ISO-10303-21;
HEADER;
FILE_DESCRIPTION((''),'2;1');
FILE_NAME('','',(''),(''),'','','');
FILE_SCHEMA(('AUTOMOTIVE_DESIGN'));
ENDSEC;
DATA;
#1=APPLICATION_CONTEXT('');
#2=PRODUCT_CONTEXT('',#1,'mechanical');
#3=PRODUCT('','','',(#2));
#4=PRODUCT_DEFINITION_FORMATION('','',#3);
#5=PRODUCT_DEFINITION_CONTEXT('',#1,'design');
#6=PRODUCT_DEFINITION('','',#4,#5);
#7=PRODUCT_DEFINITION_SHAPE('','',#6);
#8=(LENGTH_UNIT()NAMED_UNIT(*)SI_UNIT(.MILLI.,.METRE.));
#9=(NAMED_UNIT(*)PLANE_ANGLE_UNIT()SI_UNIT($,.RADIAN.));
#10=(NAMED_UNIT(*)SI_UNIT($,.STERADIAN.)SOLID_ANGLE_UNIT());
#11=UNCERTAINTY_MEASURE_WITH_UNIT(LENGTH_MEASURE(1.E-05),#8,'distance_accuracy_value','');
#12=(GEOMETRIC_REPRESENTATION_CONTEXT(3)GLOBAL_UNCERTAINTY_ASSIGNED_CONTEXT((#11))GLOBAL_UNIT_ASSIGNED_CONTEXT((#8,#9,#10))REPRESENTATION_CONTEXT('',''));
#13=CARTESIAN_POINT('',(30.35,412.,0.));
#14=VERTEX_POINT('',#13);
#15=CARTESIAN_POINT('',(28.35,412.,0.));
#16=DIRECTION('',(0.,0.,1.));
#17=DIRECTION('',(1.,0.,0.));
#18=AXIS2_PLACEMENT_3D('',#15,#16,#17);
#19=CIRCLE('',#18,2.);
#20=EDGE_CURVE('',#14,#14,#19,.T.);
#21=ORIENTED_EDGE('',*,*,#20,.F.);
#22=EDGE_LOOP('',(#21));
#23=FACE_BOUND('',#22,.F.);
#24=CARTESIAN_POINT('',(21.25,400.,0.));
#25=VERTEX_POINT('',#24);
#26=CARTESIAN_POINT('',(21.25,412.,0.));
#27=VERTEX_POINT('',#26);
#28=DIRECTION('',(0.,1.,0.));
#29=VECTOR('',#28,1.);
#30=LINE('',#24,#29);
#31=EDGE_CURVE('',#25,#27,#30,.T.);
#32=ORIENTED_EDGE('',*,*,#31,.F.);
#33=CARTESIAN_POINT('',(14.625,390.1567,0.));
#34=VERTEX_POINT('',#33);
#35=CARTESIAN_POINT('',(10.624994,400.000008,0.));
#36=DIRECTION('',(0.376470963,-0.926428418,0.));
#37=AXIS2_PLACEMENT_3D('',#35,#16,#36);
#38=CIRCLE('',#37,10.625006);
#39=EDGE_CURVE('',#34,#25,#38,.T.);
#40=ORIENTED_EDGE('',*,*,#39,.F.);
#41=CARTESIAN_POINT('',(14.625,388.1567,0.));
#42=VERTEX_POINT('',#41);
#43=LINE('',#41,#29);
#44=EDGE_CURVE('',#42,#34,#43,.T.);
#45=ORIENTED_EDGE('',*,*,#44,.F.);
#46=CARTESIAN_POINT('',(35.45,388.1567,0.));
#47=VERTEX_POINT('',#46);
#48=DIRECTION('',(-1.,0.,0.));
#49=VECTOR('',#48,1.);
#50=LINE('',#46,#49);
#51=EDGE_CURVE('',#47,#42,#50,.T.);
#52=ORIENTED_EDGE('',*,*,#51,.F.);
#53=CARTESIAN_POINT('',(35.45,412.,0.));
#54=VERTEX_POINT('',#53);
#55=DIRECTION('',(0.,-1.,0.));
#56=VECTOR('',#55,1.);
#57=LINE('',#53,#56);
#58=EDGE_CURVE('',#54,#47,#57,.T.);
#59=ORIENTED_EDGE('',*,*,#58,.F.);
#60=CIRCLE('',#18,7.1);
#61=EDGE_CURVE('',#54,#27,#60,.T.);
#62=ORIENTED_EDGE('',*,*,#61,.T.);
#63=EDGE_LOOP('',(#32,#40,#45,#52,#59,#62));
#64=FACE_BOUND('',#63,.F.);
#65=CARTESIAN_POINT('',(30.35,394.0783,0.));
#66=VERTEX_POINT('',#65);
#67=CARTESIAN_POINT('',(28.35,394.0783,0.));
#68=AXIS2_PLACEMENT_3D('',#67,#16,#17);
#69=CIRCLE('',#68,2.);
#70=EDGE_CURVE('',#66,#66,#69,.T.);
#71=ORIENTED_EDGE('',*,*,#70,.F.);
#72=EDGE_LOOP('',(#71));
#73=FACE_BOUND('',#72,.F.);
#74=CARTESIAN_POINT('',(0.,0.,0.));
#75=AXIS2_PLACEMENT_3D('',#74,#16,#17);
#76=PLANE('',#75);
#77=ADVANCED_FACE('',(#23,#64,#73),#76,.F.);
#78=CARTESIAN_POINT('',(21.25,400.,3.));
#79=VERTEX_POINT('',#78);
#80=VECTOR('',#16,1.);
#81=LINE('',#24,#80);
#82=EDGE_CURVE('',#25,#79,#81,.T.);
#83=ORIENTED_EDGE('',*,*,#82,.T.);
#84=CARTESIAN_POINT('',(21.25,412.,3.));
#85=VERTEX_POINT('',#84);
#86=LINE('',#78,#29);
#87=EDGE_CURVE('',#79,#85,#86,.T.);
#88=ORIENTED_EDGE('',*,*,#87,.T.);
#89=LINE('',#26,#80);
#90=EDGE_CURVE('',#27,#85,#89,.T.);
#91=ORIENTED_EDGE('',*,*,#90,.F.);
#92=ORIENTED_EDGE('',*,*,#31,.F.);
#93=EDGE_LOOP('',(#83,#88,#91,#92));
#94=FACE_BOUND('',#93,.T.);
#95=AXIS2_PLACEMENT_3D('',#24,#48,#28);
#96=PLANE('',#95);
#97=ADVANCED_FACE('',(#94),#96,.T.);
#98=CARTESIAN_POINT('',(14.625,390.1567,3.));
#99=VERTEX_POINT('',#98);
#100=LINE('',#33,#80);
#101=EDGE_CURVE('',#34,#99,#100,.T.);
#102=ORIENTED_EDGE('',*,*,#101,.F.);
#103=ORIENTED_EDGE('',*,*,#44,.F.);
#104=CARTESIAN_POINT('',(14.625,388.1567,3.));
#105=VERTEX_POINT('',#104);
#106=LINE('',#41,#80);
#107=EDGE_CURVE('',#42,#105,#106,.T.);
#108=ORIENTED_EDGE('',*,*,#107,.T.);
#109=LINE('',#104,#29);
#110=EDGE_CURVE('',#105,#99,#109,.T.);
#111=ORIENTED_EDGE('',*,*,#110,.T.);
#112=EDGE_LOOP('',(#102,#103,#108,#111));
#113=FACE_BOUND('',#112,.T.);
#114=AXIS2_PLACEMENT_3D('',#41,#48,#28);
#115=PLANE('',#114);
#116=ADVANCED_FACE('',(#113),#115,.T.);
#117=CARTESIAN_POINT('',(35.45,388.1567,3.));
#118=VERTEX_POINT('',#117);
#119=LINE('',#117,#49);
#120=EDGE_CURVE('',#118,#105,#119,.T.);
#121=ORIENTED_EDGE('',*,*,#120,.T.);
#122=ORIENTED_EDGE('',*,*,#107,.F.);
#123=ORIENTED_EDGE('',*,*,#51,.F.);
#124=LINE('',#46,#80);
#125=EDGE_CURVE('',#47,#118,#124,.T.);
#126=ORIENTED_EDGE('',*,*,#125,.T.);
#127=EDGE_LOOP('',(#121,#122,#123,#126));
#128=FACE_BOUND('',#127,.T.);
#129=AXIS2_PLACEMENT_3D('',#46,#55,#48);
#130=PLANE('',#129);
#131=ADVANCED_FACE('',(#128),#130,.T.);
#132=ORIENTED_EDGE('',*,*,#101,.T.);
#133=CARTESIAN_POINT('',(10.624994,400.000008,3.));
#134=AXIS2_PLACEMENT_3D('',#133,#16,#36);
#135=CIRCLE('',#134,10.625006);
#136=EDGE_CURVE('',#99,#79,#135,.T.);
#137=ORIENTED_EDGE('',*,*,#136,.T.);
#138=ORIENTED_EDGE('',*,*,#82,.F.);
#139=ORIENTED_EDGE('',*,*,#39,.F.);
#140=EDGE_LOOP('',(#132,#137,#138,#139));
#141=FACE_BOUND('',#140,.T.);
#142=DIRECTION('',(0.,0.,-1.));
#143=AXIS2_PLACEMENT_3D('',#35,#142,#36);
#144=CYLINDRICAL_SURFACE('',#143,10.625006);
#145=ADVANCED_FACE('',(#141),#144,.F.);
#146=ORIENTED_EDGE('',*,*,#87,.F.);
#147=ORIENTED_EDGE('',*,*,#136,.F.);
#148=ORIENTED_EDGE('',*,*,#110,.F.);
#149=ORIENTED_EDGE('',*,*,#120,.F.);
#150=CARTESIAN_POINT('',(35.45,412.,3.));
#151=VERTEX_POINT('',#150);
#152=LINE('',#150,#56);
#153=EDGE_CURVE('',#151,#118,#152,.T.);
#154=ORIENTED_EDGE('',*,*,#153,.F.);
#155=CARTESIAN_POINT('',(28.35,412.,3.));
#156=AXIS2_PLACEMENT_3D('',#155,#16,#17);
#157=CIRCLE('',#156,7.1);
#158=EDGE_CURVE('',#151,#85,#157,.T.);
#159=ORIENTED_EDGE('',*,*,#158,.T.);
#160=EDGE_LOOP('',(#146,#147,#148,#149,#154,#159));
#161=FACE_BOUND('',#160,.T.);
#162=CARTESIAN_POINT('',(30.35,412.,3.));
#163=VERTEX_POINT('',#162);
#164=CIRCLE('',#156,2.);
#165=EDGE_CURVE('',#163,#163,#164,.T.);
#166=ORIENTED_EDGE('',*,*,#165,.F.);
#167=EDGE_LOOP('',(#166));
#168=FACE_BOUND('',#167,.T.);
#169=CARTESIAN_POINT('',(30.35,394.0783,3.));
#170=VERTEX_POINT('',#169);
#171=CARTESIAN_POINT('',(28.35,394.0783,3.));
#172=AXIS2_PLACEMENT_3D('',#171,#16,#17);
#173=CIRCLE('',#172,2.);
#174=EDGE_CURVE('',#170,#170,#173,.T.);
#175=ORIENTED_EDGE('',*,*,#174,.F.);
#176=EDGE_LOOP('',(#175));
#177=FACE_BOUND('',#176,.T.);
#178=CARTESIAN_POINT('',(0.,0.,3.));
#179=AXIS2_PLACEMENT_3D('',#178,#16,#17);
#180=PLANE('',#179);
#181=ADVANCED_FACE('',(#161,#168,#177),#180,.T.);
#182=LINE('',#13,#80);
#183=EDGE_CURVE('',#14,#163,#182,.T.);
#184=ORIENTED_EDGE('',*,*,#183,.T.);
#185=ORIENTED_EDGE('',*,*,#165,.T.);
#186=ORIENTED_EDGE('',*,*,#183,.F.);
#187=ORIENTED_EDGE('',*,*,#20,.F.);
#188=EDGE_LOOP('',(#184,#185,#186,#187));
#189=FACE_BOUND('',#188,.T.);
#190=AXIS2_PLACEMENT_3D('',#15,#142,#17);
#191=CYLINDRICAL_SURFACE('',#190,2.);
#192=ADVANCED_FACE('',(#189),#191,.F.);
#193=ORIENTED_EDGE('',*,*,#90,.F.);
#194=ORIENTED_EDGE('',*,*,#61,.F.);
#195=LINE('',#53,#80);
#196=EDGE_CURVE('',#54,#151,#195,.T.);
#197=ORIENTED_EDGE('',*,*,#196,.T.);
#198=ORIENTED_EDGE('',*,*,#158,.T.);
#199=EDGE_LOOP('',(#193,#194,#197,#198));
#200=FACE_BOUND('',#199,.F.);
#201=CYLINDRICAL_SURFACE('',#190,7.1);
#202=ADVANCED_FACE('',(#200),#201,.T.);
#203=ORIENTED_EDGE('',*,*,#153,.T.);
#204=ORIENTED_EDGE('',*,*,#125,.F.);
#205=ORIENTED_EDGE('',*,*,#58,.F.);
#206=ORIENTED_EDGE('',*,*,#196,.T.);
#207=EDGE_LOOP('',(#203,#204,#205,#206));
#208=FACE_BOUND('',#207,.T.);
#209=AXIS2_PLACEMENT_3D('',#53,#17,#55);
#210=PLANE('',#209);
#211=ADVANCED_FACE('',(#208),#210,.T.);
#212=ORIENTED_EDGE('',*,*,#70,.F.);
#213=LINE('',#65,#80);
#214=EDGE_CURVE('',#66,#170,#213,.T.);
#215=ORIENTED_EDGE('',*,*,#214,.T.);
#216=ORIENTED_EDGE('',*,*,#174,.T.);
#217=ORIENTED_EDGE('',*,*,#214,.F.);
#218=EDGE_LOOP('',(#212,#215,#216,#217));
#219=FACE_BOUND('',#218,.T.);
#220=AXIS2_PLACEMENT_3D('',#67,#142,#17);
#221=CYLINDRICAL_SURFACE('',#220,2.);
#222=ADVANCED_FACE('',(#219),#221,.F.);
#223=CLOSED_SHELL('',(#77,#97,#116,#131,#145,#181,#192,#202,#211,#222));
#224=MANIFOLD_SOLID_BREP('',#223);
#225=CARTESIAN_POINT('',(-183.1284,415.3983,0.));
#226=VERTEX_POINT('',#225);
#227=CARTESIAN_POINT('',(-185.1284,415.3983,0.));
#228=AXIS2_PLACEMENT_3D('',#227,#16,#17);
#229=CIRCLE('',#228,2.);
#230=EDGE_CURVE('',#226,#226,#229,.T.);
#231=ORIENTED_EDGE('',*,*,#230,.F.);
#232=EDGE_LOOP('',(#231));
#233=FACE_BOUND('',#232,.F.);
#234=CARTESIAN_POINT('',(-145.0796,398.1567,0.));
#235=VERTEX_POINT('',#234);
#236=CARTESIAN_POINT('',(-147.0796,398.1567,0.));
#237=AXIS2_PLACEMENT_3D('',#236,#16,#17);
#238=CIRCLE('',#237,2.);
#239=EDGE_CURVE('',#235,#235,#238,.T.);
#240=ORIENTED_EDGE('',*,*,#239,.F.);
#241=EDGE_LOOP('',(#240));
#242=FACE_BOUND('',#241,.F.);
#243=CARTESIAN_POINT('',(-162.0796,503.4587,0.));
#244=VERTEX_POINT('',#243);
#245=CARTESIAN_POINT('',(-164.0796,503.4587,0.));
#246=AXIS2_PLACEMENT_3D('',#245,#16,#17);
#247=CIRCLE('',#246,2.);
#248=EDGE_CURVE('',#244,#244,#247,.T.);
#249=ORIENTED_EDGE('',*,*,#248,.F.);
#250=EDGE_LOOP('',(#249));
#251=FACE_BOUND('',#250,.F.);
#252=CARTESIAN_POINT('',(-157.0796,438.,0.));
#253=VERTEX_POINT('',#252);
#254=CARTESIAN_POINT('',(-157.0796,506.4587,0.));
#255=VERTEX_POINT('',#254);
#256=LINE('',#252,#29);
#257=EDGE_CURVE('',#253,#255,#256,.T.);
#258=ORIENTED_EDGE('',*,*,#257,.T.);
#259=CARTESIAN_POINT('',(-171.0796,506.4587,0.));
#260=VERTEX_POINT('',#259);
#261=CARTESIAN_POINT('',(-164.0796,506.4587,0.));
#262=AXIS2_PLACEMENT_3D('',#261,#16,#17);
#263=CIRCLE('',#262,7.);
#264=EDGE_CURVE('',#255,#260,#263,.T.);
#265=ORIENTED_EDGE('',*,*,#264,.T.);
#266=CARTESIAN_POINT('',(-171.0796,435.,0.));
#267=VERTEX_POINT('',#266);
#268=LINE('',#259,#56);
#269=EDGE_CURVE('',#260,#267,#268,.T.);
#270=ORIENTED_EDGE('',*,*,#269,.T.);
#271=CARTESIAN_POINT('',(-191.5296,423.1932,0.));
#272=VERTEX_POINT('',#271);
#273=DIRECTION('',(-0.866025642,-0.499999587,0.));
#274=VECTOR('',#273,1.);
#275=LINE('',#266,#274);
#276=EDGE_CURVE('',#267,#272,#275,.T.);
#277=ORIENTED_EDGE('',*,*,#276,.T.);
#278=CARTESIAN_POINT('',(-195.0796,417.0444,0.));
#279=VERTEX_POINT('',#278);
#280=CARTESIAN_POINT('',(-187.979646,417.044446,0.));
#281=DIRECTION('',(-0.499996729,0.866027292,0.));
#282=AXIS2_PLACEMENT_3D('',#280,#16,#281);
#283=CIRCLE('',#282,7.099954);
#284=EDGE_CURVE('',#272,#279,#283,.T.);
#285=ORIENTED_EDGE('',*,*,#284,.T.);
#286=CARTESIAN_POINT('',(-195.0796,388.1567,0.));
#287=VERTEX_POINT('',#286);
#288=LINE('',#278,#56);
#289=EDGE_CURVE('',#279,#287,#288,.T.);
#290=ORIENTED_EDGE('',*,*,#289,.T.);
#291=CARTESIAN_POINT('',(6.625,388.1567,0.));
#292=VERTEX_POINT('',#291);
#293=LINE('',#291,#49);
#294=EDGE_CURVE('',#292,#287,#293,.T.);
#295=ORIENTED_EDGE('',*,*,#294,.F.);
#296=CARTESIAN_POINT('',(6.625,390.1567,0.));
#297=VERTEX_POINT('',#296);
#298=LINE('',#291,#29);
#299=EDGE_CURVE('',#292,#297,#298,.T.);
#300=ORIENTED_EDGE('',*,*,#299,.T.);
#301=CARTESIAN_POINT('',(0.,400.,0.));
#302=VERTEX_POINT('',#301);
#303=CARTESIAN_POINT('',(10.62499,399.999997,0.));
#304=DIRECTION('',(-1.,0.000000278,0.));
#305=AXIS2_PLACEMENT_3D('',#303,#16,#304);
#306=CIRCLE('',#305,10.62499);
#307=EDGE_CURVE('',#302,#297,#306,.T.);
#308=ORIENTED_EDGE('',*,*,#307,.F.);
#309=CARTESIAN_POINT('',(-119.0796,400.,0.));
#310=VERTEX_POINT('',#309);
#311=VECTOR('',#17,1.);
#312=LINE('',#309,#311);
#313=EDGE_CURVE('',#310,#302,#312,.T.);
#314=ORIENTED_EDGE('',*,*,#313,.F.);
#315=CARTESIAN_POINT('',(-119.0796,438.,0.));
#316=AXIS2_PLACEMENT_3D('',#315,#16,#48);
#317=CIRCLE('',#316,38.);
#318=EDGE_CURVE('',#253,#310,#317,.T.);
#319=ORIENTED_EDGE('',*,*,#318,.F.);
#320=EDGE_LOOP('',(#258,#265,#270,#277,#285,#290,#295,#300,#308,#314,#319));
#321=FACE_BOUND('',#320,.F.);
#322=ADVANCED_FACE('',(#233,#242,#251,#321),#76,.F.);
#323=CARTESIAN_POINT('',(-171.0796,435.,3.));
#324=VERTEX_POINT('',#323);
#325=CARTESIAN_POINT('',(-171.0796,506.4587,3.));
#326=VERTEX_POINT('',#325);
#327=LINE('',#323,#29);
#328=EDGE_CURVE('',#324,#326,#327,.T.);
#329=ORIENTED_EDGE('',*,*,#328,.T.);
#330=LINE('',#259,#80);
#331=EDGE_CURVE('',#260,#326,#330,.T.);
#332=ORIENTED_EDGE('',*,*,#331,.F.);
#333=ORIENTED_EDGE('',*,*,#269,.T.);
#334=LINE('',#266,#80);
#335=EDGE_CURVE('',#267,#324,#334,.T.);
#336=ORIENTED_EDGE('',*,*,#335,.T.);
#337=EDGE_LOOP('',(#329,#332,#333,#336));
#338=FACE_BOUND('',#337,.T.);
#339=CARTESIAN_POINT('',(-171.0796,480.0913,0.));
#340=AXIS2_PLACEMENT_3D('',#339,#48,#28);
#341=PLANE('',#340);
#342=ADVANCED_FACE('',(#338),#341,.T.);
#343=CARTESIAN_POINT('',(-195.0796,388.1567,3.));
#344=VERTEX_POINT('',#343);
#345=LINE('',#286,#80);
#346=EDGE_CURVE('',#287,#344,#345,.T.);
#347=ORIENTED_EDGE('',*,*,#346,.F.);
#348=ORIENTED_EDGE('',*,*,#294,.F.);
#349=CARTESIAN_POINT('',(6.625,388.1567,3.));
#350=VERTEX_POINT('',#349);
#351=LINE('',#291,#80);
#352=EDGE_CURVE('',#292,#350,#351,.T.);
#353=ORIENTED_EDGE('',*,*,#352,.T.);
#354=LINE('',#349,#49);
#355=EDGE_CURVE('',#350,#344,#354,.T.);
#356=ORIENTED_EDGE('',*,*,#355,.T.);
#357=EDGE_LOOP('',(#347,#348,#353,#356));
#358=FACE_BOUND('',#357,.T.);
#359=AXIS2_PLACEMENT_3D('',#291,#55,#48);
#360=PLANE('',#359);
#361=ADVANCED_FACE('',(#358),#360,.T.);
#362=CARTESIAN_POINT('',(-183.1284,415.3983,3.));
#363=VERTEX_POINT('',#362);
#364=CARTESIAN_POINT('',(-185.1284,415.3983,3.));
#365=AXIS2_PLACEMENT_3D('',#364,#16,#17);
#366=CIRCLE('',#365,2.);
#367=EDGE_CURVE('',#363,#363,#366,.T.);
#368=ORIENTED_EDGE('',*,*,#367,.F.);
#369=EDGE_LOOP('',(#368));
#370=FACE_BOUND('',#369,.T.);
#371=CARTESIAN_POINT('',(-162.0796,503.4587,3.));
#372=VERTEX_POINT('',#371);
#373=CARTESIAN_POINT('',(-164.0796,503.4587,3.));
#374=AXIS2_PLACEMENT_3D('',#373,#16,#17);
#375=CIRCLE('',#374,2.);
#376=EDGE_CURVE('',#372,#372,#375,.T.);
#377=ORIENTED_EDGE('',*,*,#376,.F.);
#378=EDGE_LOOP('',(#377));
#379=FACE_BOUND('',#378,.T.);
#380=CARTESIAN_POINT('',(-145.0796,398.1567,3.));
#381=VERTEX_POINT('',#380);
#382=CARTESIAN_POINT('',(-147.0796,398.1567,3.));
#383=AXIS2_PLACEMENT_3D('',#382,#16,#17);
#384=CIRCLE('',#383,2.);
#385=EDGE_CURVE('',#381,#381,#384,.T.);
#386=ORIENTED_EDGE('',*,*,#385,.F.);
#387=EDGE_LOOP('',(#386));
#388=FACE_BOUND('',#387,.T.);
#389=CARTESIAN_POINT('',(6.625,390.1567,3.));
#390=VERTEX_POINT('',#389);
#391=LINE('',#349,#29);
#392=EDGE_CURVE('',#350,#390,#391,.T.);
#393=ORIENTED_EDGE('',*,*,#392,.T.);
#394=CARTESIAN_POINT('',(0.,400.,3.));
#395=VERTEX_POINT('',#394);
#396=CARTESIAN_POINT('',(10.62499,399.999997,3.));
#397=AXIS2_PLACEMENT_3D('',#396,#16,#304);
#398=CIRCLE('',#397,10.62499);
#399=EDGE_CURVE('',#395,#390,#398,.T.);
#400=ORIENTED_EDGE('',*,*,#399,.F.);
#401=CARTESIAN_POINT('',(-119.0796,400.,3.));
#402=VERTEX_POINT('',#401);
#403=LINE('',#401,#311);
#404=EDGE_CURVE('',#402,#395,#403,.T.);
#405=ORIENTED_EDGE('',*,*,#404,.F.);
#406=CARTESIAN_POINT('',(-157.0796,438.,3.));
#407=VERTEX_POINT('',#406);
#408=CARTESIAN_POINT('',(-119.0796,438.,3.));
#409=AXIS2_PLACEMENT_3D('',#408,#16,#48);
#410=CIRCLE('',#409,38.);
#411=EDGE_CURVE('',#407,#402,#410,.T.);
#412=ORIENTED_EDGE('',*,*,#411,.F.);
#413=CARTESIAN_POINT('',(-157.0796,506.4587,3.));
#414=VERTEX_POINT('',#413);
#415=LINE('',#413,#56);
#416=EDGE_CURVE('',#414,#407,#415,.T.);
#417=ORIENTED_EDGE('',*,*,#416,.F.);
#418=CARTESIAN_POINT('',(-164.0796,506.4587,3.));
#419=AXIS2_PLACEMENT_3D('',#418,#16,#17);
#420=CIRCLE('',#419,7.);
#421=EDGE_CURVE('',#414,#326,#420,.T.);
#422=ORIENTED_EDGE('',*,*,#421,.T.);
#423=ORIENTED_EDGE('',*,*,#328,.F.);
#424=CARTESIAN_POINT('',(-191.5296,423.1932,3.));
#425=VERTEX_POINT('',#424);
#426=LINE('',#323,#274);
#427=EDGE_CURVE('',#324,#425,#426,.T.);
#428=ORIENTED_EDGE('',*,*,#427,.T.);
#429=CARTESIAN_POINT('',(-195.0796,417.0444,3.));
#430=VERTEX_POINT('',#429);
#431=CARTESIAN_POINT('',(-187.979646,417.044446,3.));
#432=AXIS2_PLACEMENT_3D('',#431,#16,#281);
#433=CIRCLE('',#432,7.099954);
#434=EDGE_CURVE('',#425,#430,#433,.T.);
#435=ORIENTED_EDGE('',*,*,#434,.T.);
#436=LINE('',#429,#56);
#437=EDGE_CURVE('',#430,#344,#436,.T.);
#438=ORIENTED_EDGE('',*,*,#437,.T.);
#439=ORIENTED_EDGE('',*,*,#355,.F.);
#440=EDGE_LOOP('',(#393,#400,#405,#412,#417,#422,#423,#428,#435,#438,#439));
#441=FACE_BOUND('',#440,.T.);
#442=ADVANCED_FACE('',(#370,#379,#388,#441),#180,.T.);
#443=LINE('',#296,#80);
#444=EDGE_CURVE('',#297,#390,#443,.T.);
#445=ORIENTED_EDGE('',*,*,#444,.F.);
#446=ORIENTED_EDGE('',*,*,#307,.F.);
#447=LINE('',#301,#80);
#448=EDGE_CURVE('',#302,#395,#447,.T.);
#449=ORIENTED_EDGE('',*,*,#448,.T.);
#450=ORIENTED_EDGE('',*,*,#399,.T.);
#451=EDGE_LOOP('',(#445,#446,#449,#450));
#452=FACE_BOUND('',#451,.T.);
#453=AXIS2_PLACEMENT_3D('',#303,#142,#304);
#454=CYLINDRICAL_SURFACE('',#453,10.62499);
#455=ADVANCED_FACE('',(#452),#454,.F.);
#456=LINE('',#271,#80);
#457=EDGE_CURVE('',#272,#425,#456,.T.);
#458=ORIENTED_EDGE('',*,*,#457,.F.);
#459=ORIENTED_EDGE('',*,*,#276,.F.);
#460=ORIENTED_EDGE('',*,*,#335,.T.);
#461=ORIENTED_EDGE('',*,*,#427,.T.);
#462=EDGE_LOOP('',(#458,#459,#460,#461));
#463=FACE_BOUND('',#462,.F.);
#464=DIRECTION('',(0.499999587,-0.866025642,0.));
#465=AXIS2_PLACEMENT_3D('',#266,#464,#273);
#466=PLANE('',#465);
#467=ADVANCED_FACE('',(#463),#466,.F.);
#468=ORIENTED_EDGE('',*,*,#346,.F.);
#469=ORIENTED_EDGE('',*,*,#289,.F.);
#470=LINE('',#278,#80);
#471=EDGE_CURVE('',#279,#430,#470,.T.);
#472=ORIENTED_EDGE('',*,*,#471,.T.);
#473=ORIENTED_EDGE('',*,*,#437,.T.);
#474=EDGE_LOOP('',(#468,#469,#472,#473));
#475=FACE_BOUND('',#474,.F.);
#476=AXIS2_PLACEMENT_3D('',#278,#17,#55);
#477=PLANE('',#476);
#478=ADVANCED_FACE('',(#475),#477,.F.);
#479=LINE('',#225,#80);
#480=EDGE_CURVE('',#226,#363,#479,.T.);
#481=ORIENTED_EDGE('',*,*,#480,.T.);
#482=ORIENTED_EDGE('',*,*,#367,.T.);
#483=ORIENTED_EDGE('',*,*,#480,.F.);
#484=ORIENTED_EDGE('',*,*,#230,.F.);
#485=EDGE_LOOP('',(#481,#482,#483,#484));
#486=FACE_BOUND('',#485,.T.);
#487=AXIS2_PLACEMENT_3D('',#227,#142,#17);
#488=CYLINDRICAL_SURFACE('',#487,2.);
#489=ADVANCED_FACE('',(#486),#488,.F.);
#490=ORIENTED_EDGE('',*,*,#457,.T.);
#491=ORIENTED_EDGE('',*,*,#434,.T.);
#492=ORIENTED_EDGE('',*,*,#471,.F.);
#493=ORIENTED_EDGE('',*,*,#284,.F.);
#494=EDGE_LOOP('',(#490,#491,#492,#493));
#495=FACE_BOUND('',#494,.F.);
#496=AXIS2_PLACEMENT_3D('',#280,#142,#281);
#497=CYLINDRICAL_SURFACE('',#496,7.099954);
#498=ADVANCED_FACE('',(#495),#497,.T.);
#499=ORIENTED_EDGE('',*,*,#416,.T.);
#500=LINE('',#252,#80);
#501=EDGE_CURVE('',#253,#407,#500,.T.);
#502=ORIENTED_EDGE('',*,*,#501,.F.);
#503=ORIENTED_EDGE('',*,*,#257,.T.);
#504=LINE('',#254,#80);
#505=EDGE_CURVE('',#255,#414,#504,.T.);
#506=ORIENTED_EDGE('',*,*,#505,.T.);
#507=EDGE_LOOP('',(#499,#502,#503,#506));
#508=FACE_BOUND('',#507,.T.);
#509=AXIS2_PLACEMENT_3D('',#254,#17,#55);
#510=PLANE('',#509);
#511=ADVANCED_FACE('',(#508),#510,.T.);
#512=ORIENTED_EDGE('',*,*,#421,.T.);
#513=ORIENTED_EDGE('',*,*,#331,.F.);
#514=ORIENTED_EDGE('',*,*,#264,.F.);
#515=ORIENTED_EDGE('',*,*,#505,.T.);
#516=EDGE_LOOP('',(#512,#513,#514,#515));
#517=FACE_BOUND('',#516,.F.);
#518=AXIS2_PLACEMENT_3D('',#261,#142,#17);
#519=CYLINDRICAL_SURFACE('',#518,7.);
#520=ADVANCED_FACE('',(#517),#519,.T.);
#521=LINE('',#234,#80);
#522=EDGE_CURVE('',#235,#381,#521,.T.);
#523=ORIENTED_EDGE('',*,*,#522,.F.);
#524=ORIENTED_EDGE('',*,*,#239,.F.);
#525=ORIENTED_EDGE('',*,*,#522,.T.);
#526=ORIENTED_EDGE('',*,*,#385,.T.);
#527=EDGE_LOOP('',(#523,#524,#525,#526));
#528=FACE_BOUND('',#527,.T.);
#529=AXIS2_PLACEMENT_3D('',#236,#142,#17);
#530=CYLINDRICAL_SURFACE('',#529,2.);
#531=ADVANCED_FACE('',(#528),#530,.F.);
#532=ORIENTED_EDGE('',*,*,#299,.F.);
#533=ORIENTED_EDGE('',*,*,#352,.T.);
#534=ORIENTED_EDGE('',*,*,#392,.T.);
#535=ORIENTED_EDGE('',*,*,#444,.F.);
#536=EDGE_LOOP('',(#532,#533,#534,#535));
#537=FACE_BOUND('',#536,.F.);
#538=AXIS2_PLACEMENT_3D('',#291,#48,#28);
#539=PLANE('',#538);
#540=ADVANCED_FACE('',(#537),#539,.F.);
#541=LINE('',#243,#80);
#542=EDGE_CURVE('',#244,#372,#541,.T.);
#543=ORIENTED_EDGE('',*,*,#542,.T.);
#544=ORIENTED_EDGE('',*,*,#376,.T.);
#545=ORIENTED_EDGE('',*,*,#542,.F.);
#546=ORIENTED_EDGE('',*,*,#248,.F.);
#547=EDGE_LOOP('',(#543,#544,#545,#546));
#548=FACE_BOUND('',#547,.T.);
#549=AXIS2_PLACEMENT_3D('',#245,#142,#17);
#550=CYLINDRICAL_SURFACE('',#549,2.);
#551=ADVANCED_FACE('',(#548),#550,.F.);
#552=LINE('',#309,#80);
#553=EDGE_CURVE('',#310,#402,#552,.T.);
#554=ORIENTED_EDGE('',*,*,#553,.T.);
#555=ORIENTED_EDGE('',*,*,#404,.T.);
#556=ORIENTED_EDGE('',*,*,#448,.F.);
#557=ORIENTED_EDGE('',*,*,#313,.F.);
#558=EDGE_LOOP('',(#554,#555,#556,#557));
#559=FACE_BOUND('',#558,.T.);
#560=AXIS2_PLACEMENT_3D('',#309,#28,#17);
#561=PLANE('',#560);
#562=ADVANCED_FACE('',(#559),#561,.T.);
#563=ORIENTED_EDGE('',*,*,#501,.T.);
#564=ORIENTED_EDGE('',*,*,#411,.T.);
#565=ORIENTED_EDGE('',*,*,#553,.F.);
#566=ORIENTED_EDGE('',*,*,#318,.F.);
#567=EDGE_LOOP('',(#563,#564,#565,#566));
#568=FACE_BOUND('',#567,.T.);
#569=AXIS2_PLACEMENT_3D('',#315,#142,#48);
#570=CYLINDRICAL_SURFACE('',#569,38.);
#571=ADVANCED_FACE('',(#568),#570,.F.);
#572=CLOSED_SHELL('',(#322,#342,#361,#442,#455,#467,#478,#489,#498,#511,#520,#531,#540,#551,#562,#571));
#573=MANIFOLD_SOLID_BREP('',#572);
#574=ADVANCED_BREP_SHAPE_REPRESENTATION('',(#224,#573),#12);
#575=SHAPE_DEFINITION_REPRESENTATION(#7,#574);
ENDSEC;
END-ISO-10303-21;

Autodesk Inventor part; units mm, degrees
ref_plane "YZ Plane" through (0, 0, 0) normal (1, 0, 0) x (0, 1, 0)
ref_plane "XZ Plane" through (0, 0, 0) normal (0, 1, 0) x (-1, 0, 0)
ref_plane "XY Plane" through (0, 0, 0) normal (0, 0, 1) x (1, 0, 0)
sketch "Sketch3" plane through (0, 0, 0) normal (0, 0, 1) x (1, 0, 0)
  circle A0 centre (367.816, 50) radius 50 construction
  line L0 (367.816, 0) -> (512.7041, 0) construction
  line L1 (367.816, 50) -> (512.7041, 50) construction
  line L2 (367.816, 100) -> (512.7041, 100) construction
  line L3 (367.816, 50) -> (342.816, 6.6987) construction
  line L4 (367.816, 50) -> (324.5147, 25) construction
  line L5 (367.816, 50) -> (324.5147, 75) construction
  line L6 (342.816, 93.3013) -> (367.816, 50) construction
  line L7 (392.816, 93.3013) -> (367.816, 50) construction
  line L8 (411.1173, 75) -> (367.816, 50) construction
  line L9 (411.1173, 25) -> (367.816, 50) construction
  line L10 (392.816, 6.6987) -> (367.816, 50) construction
  line L11 (367.816, 0) -> (367.816, 100) construction
  line L12 (417.816, 50) -> (367.816, 50) construction
  line L13 (341.6361, 0) -> (341.6361, 100) construction
  line L14 (315.4561, 0) -> (315.4561, 100) construction
  line L15 (289.2762, 0) -> (289.2762, 100) construction
  line L16 (263.0963, 0) -> (263.0963, 100) construction
  line L17 (236.9163, 0) -> (236.9163, 100) construction
  line L18 (210.7364, 0) -> (210.7364, 100) construction
  line L19 (184.5564, 0) -> (184.5564, 100) construction
  line L20 (158.3765, 0) -> (158.3765, 100) construction
  circle A1 centre (315.4561, 50) radius 50 construction
  circle A2 centre (341.6361, 50) radius 50 construction
  circle A3 centre (289.2762, 50) radius 50 construction
  circle A4 centre (263.0963, 50) radius 50 construction
  circle A5 centre (236.9163, 50) radius 50 construction
  circle A6 centre (210.7364, 50) radius 50 construction
  line L21 (392.816, 6.6987) -> (512.7041, 6.6987) construction
  line L22 (411.1173, 25) -> (512.7041, 25) construction
  line L23 (411.1173, 75) -> (512.7041, 75) construction
  line L24 (411.1173, 75) -> (512.7041, 75) construction
  line L25 (392.816, 93.3013) -> (512.7041, 93.3013) construction
  line L26 (358.7574, 75) -> (339.2762, 50) construction
  line L27 (339.2762, 50) -> (306.3975, 25) construction
  line L28 (306.3975, 25) -> (261.9163, 6.6987) construction
  line L29 (261.9163, 6.6987) -> (210.7364, 0) construction
  line L30 (105.3682, -12.9392) -> (105.3682, 124.4333) construction
  line L31 (21.25, 0) -> (21.25, 12)
  line L32 (35.45, 12) -> (35.45, -11.8433)
  arc A7 (0, 0) -> (6.625, -9.8433) centre (10.625, 0) ccw
  arc A8 (14.625, -9.8433) -> (21.25, 0) centre (10.625, 0) ccw
  line L33 (35.45, -11.8433) -> (14.625, -11.8433)
  line L34 (6.625, -11.8433) -> (-195.0796, -11.8433)
  circle A9 centre (-144.26, 100.8473) radius 12.875 construction
  line L35 (6.625, -11.8433) -> (6.625, -9.8433)
  line L36 (14.625, -11.8433) -> (14.625, -9.8433)
  line L37 (411.1173, 75) -> (158.3765, 75) construction
  line L38 (367.816, 100) -> (158.3765, 100) construction
  line L39 (417.816, 50) -> (158.3765, 50) construction
  line L40 (411.1173, 25) -> (158.3765, 25) construction
  line L41 (392.816, 6.6987) -> (158.3765, 6.6987) construction
  line L42 (392.816, 93.3013) -> (158.3765, 93.3013) construction
  line L43 (358.7574, 75) -> (366.6361, 93.3013) construction
  line L44 (366.6361, 93.3013) -> (367.816, 100) construction
  spline S0 degree 4 poles (-157.0796, 100) (-157.0796, 88.9946) (-147.011, 72.6811) (-131.8577, 48.7932) (-88.4777, 17.6268) (-50.0176, 3.937) (-18.8717, 0) (0, 0) knots 0 0 0 0 0 0.264547 0.457223 0.66608 1 1 1 1 1
  line L45 (-157.0796, 100) -> (-157.0796, 38) construction
  line L46 (0, 0) -> (-157.0796, 0) construction
  line L47 (-144.26, 100.8473) -> (-157.135, 100.8473) construction
  circle A10 centre (-146.4546, 100) radius 10.625 construction
  line L48 (-146.4546, 100) -> (-157.0796, 100) construction
  line L49 (-141.0754, 84.4005) -> (-135.6205, 93.5183) construction
  line L50 (-141.0796, 132.0528) -> (-171.0796, 149.3733) construction
  line L51 (-171.0796, 149.3733) -> (-201.0796, 132.0528) construction
  line L52 (-141.0754, 84.4005) -> (-99.2801, 84.4005) construction
  line L53 (-201.0796, 132.0528) -> (-201.0796, 97.4118) construction
  line L54 (-201.0796, 97.4118) -> (-171.0796, 80.0913) construction
  line L55 (0, 0) -> (-157.0796, 93.9753) construction
  line L56 (-135.6205, 93.5183) -> (-137.3368, 94.5451) construction
  line L57 (-137.3368, 94.5451) -> (-143.2815, 84.6085) construction
  line L58 (-137.3368, 94.5451) -> (-171.0796, 114.7323) construction
  line L59 (-201.0796, 132.0528) -> (-171.0796, 114.7323) construction
  arc A11 (-137.3368, 94.5451) -> (-144.7045, 143.8948) centre (-171.0796, 114.7323) ccw construction
  arc A12 (-142.7917, 85.4273) -> (-147.1443, 147.6882) centre (-171.0796, 114.7323) ccw construction
  line L60 (-171.0796, 80.0913) -> (-171.0796, 35)
  circle A13 centre (-171.0796, 114.7323) radius 2.5 construction
  arc A14 (-167.4345, 120.8251) -> (-174.7248, 108.6394) centre (-171.0796, 114.7323) ccw construction
  line L61 (-167.4345, 120.8251) -> (-157.0796, 114.6302) construction
  line L62 (-171.0796, 80.0913) -> (-171.0796, 106.4587)
  line L63 (-171.0796, 106.4587) -> (-174.7248, 108.6394) construction
  line L64 (-171.0796, 35) -> (-191.5296, 23.1932)
  arc A15 (-191.5296, 23.1932) -> (-195.0796, 17.0444) centre (-187.9796, 17.0444) ccw
  line L65 (-195.0796, 17.0444) -> (-195.0796, -11.8433)
  arc A16 (35.45, 12) -> (21.25, 12) centre (28.35, 12) ccw
  line L66 (-157.0796, 114.6302) -> (-157.0796, 99.9865) construction
  circle A17 centre (-164.0796, 103.4587) radius 2
  line L67 (-171.0796, 103.4587) -> (-157.0796, 103.4587) construction
  circle A18 centre (-185.1284, 15.3983) radius 2
  line L68 (-185.1284, 15.3983) -> (-194.1284, 20.5944) construction
  circle A19 centre (-6, -5.9217) radius 2
  line L69 (-6, -11.8433) -> (-6, 0) construction
  circle A20 centre (28.35, 12) radius 2
  circle A21 centre (28.35, -5.9217) radius 2
  line L70 (-167.4345, 320.8251) -> (-157.0796, 314.6302) construction
  arc A22 (-167.4345, 320.8251) -> (-174.7248, 308.6394) centre (-171.0796, 314.7323) ccw construction
  circle A23 centre (-171.0796, 314.7323) radius 2.5 construction
  line L71 (-171.0796, 280.0913) -> (-171.0796, 306.4587)
  line L72 (-171.0796, 306.4587) -> (-174.7248, 308.6394) construction
  line L73 (-157.0796, 314.6302) -> (-157.0796, 299.9865) construction
  circle A24 centre (-164.0796, 303.4587) radius 2
  spline S1 degree 4 poles (-157.0796, 300) (-157.0796, 288.9946) (-147.0234, 272.6841) (-124.1789, 236.7977) (-70.8039, 208.0704) (-31.8865, 200.2943) (0, 200) knots 0 0 0 0 0 0.264547 0.457223 1 1 1 1 1 construction
  line L74 (-157.0796, 300) -> (-157.0796, 238) construction
  arc A25 (0, 200) -> (6.625, 190.1567) centre (10.625, 200) ccw
  line L75 (35.45, 212) -> (35.45, 188.1567)
  circle A26 centre (28.35, 212) radius 2
  circle A27 centre (28.35, 194.0783) radius 2
  arc A28 (35.45, 212) -> (21.25, 212) centre (28.35, 212) ccw
  line L76 (21.25, 200) -> (21.25, 212)
  line L77 (35.45, 188.1567) -> (14.625, 188.1567)
  arc A29 (14.625, 190.1567) -> (21.25, 200) centre (10.625, 200) ccw
  line L78 (14.625, 188.1567) -> (14.625, 190.1567)
  line L79 (-185.1284, 215.3983) -> (-194.1284, 220.5944) construction
  arc A30 (-191.5296, 223.1932) -> (-195.0796, 217.0444) centre (-187.9796, 217.0444) ccw
  line L80 (-195.0796, 217.0444) -> (-195.0796, 188.1567)
  line L81 (-171.0796, 235) -> (-191.5296, 223.1932)
  circle A31 centre (-185.1284, 215.3983) radius 2
  line L82 (-171.0796, 280.0913) -> (-171.0796, 235)
  line L83 (6.625, 188.1567) -> (-195.0796, 188.1567)
  line L84 (6.625, 188.1567) -> (6.625, 190.1567)
  line L85 (-137.3368, 294.5451) -> (-143.2815, 284.6085) construction
  line L86 (-141.0754, 284.4005) -> (-135.6205, 293.5183) construction
  line L87 (0, 200) -> (-157.0796, 293.9753)
  line L88 (-167.4345, 520.8251) -> (-157.0796, 514.6302) construction
  arc A32 (-167.4345, 520.8251) -> (-174.7248, 508.6394) centre (-171.0796, 514.7323) ccw construction
  circle A33 centre (-171.0796, 514.7323) radius 2.5 construction
  line L89 (-171.0796, 480.0913) -> (-171.0796, 506.4587)
  line L90 (-171.0796, 506.4587) -> (-174.7248, 508.6394) construction
  line L91 (-157.0796, 514.6302) -> (-157.0796, 499.9865) construction
  circle A34 centre (-164.0796, 503.4587) radius 2
  spline S2 degree 4 poles (-157.0796, 500) (-157.0796, 488.9946) (-147.0234, 472.6841) (-124.1789, 436.7977) (-70.8039, 408.0704) (-31.8865, 400.2943) (0, 400) knots 0 0 0 0 0 0.264547 0.457223 1 1 1 1 1 construction
  line L92 (-157.0796, 500) -> (-157.0796, 438)
  arc A35 (0, 400) -> (6.625, 390.1567) centre (10.625, 400) ccw
  line L93 (35.45, 412) -> (35.45, 388.1567)
  circle A36 centre (28.35, 412) radius 2
  circle A37 centre (28.35, 394.0783) radius 2
  arc A38 (35.45, 412) -> (21.25, 412) centre (28.35, 412) ccw
  line L94 (21.25, 400) -> (21.25, 412)
  line L95 (35.45, 388.1567) -> (14.625, 388.1567)
  arc A39 (14.625, 390.1567) -> (21.25, 400) centre (10.625, 400) ccw
  line L96 (14.625, 388.1567) -> (14.625, 390.1567)
  line L97 (-185.1284, 415.3983) -> (-194.1284, 420.5944) construction
  arc A40 (-191.5296, 423.1932) -> (-195.0796, 417.0444) centre (-187.9796, 417.0444) ccw
  line L98 (-195.0796, 417.0444) -> (-195.0796, 388.1567)
  line L99 (-171.0796, 435) -> (-191.5296, 423.1932)
  circle A41 centre (-185.1284, 415.3983) radius 2
  line L100 (-171.0796, 480.0913) -> (-171.0796, 435)
  line L101 (6.625, 388.1567) -> (-195.0796, 388.1567)
  line L102 (6.625, 388.1567) -> (6.625, 390.1567)
  line L103 (-137.3368, 494.5451) -> (-143.2815, 484.6085) construction
  line L104 (-141.0754, 484.4005) -> (-135.6205, 493.5183) construction
  line L105 (0, 400) -> (-157.0796, 493.9753) construction
  line L106 (-467.4345, 120.8251) -> (-457.0796, 114.6302) construction
  arc A42 (-467.4345, 120.8251) -> (-474.7248, 108.6394) centre (-471.0796, 114.7323) ccw construction
  circle A43 centre (-471.0796, 114.7323) radius 2.5 construction
  line L107 (-471.0796, 80.0913) -> (-471.0796, 106.4587)
  line L108 (-471.0796, 106.4587) -> (-474.7248, 108.6394) construction
  line L109 (-457.0796, 114.6302) -> (-457.0796, 99.9865) construction
  circle A44 centre (-464.0796, 103.4587) radius 2
  spline S3 degree 4 poles (-457.0796, 100) (-457.0796, 88.9946) (-447.0234, 72.6841) (-424.1789, 36.7977) (-370.8039, 8.0704) (-331.8865, 0.2943) (-300, 0) knots 0 0 0 0 0 0.264547 0.457223 1 1 1 1 1 construction
  line L110 (-457.0796, 100) -> (-457.0796, 38) construction
  arc A45 (-300, 0) -> (-293.375, -9.8433) centre (-289.375, 0) ccw construction
  line L111 (-264.55, 12) -> (-264.55, -11.8433)
  circle A46 centre (-271.65, 12) radius 2
  circle A47 centre (-271.65, -5.9217) radius 2
  arc A48 (-264.55, 12) -> (-278.75, 12) centre (-271.65, 12) ccw
  line L112 (-278.75, 0) -> (-278.75, 12) construction
  line L113 (-264.55, -11.8433) -> (-285.375, -11.8433)
  arc A49 (-285.375, -9.8433) -> (-278.75, 0) centre (-289.375, 0) ccw construction
  line L114 (-285.375, -11.8433) -> (-285.375, -9.8433) construction
  line L115 (-485.1284, 15.3983) -> (-494.1284, 20.5944) construction
  arc A50 (-491.5296, 23.1932) -> (-495.0796, 17.0444) centre (-487.9796, 17.0444) ccw
  line L116 (-495.0796, 17.0444) -> (-495.0796, -11.8433)
  line L117 (-471.0796, 35) -> (-491.5296, 23.1932)
  circle A51 centre (-485.1284, 15.3983) radius 2
  line L118 (-471.0796, 80.0913) -> (-471.0796, 35)
  line L119 (-293.375, -11.8433) -> (-495.0796, -11.8433)
  line L120 (-293.375, -11.8433) -> (-293.375, -9.8433) construction
  line L121 (-437.3368, 94.5451) -> (-443.2815, 84.6085) construction
  line L122 (-441.0754, 84.4005) -> (-435.6205, 93.5183) construction
  line L123 (-300, 0) -> (-457.0796, 93.9753) construction
  line L124 (-467.4345, 320.8251) -> (-457.0796, 314.6302) construction
  arc A52 (-467.4345, 320.8251) -> (-474.7248, 308.6394) centre (-471.0796, 314.7323) ccw construction
  circle A53 centre (-471.0796, 314.7323) radius 2.5 construction
  line L125 (-471.0796, 280.0913) -> (-471.0796, 306.4587)
  line L126 (-471.0796, 306.4587) -> (-474.7248, 308.6394) construction
  line L127 (-457.0796, 314.6302) -> (-457.0796, 299.9865) construction
  circle A54 centre (-464.0796, 303.4587) radius 2
  spline S4 degree 4 poles (-457.0796, 300) (-457.0796, 288.9946) (-447.0234, 272.6841) (-424.1789, 236.7977) (-370.8039, 208.0704) (-331.8865, 200.2943) (-300, 200) knots 0 0 0 0 0 0.264547 0.457223 1 1 1 1 1 construction
  line L128 (-457.0796, 300) -> (-457.0796, 238) construction
  arc A55 (-300, 200) -> (-293.375, 190.1567) centre (-289.375, 200) ccw construction
  line L129 (-264.55, 212) -> (-264.55, 188.1567)
  circle A56 centre (-271.65, 212) radius 2
  circle A57 centre (-271.65, 194.0783) radius 2
  arc A58 (-264.55, 212) -> (-278.75, 212) centre (-271.65, 212) ccw
  line L130 (-278.75, 200) -> (-278.75, 212) construction
  line L131 (-264.55, 188.1567) -> (-285.375, 188.1567)
  arc A59 (-285.375, 190.1567) -> (-278.75, 200) centre (-289.375, 200) ccw construction
  line L132 (-285.375, 188.1567) -> (-285.375, 190.1567) construction
  line L133 (-485.1284, 215.3983) -> (-494.1284, 220.5944) construction
  arc A60 (-491.5296, 223.1932) -> (-495.0796, 217.0444) centre (-487.9796, 217.0444) ccw
  line L134 (-495.0796, 217.0444) -> (-495.0796, 188.1567)
  line L135 (-471.0796, 235) -> (-491.5296, 223.1932)
  circle A61 centre (-485.1284, 215.3983) radius 2
  line L136 (-471.0796, 280.0913) -> (-471.0796, 235)
  line L137 (-293.375, 188.1567) -> (-495.0796, 188.1567)
  line L138 (-293.375, 188.1567) -> (-293.375, 190.1567) construction
  line L139 (-437.3368, 294.5451) -> (-443.2815, 284.6085) construction
  line L140 (-441.0754, 284.4005) -> (-435.6205, 293.5183) construction
  line L141 (-300, 200) -> (-457.0796, 293.9753) construction
  line L142 (-467.4345, 520.8251) -> (-457.0796, 514.6302)
  arc A62 (-467.4345, 520.8251) -> (-474.7248, 508.6394) centre (-471.0796, 514.7323) ccw
  circle A63 centre (-471.0796, 514.7323) radius 2.5
  line L143 (-471.0796, 480.0913) -> (-471.0796, 506.4587)
  line L144 (-471.0796, 506.4587) -> (-474.7248, 508.6394)
  line L145 (-457.0796, 514.6302) -> (-457.0796, 499.9865)
  circle A64 centre (-464.0796, 503.4587) radius 2
  spline S5 degree 4 poles (-457.0796, 500) (-457.0796, 488.9946) (-447.0234, 472.6841) (-424.1789, 436.7977) (-370.8039, 408.0704) (-331.8865, 400.2943) (-300, 400) knots 0 0 0 0 0 0.264547 0.457223 1 1 1 1 1 construction
  line L146 (-457.0796, 500) -> (-457.0796, 438) construction
  arc A65 (-300, 400) -> (-293.375, 390.1567) centre (-289.375, 400) ccw construction
  line L147 (-264.55, 412) -> (-264.55, 388.1567) construction
  circle A66 centre (-271.65, 412) radius 2
  circle A67 centre (-271.65, 394.0783) radius 2
  arc A68 (-264.55, 412) -> (-278.75, 412) centre (-271.65, 412) ccw
  line L148 (-278.75, 400) -> (-278.75, 412) construction
  line L149 (-264.55, 388.1567) -> (-285.375, 388.1567)
  arc A69 (-285.375, 390.1567) -> (-278.75, 400) centre (-289.375, 400) ccw construction
  line L150 (-285.375, 388.1567) -> (-285.375, 390.1567) construction
  line L151 (-485.1284, 415.3983) -> (-494.1284, 420.5944) construction
  arc A70 (-491.5296, 423.1932) -> (-495.0796, 417.0444) centre (-487.9796, 417.0444) ccw
  line L152 (-495.0796, 417.0444) -> (-495.0796, 388.1567) construction
  line L153 (-471.0796, 435) -> (-491.5296, 423.1932)
  circle A71 centre (-485.1284, 415.3983) radius 2
  line L154 (-471.0796, 480.0913) -> (-471.0796, 435)
  line L155 (-293.375, 388.1567) -> (-495.0796, 388.1567)
  line L156 (-293.375, 388.1567) -> (-293.375, 390.1567) construction
  line L157 (-437.3368, 494.5451) -> (-443.2815, 484.6085) construction
  line L158 (-441.0754, 484.4005) -> (-435.6205, 493.5183) construction
  line L159 (-300, 400) -> (-457.0796, 493.9753) construction
  line L160 (-435.4304, 87.048) -> (-430.3073, 83.9831)
  line L161 (-430.3073, 83.9831) -> (-430.3073, 78.0131)
  line L162 (-457.0796, 100) -> (-443.128, 91.6532)
  line L163 (-443.2208, 85.684) -> (-443.128, 91.6532)
  line L164 (-440.6463, 84.1438) -> (-435.4304, 87.048)
  line L165 (-440.6463, 84.1438) -> (-443.2208, 85.684)
  line L166 (-430.3073, 78.0131) -> (-436.0283, 74.7101)
  line L167 (-436.0283, 74.7101) -> (-436.0283, 68.1041)
  spline S6 degree 4 poles (-439.3753, 72.7777) (-420.1522, 45.3403) (-398.6357, 22.4496) (-337.1208, 4.2654) (-300, 5.1701) knots 0 0 0 0 0 1 1 1 1 1
  line L168 (-293.375, -11.8433) -> (-285.375, -11.8433)
  line L169 (-157.0796, 293.9753) -> (-157.0796, 300)
  line L170 (-293.375, 188.1567) -> (-285.375, 188.1567)
  arc A72 (-157.0796, 438) -> (-119.0796, 400) centre (-119.0796, 438) ccw
  line L171 (-119.0796, 400) -> (0, 400)
  line L172 (-457.0796, 500) -> (-457.0796, 438) construction
  line L173 (-419.0796, 400) -> (-300, 400) construction
  arc A73 (-457.0796, 438) -> (-419.0796, 400) centre (-419.0796, 438) ccw construction
  line L174 (-457.0796, 300) -> (-443.128, 291.6532)
  line L175 (-443.2208, 285.684) -> (-443.128, 291.6532)
  line L176 (-440.6463, 284.1438) -> (-443.2208, 285.684)
  line L177 (-440.6463, 284.1438) -> (-435.4304, 287.048)
  line L178 (-435.4304, 287.048) -> (-430.3073, 283.9831)
  line L179 (-430.3073, 283.9831) -> (-430.3073, 278.0131) construction
  line L180 (-430.3073, 278.0131) -> (-436.0283, 274.7101) construction
  line L181 (-457.0796, 500) -> (-443.128, 491.6532)
  line L182 (-443.2208, 485.684) -> (-443.128, 491.6532)
  line L183 (-440.6463, 484.1438) -> (-443.2208, 485.684)
  line L184 (-440.6463, 484.1438) -> (-435.4304, 487.048)
  line L185 (-435.4304, 487.048) -> (-430.3073, 483.9831)
  line L186 (-430.3073, 483.9831) -> (-430.3073, 478.0131)
  line L187 (-430.3073, 478.0131) -> (-436.0283, 474.7101)
  line L188 (-430.3073, 283.9831) -> (-298.5715, 205.1701)
  line L189 (-293.375, 388.1567) -> (-285.375, 388.1567)
  line L190 (-300, 5.1701) -> (-285.5799, 5.1701)
  arc A74 (-285.5799, 5.1701) -> (-278.75, 12) centre (-285.5799, 12) ccw
  line L191 (-298.5715, 205.1701) -> (-285.5799, 205.1701)
  arc A75 (-285.5799, 205.1701) -> (-278.75, 212) centre (-285.5799, 212) ccw
  line L192 (-436.0283, 474.7101) -> (-451.9095, 465.5411)
  line L193 (-451.9095, 465.5411) -> (-451.9095, 438)
  arc A76 (-451.9095, 438) -> (-419.0796, 405.1701) centre (-419.0796, 438) ccw
  line L194 (-419.0796, 405.1701) -> (-285.5799, 405.1701)
  arc A77 (-285.5799, 405.1701) -> (-278.75, 412) centre (-285.5799, 412) ccw
  line L195 (-495.0796, 388.1567) -> (-514.2796, 388.1567)
  line L196 (-514.2796, 388.1567) -> (-514.2796, 392.1567)
  line L197 (-514.2796, 392.1567) -> (-498.0796, 392.1567)
  arc A78 (-498.0796, 392.1567) -> (-495.0796, 395.1567) centre (-498.0796, 395.1567) ccw
  line L198 (-495.0796, 395.1567) -> (-495.0796, 417.0444)
  line L199 (-499.0796, 388.1567) -> (-510.2796, 388.1567) construction
  line L200 (-510.2796, 388.1567) -> (-510.2796, 392.1567) construction
  line L201 (-510.2796, 392.1567) -> (-499.0796, 392.1567) construction
  line L202 (-499.0796, 392.1567) -> (-499.0796, 388.1567) construction
  line L203 (-499.0796, 388.1567) -> (-510.2796, 392.1567) construction
  line L204 (-510.2796, 388.1567) -> (-499.0796, 392.1567) construction
  arc A79 (-600, 200) -> (-593.375, 190.1567) centre (-589.375, 200) ccw construction
  line L205 (-564.55, 212) -> (-564.55, 188.1567) construction
  circle A80 centre (-571.65, 212) radius 2
  circle A81 centre (-571.65, 194.0783) radius 2
  arc A82 (-564.55, 212) -> (-578.75, 212) centre (-571.65, 212) ccw
  line L206 (-578.75, 200) -> (-578.75, 212) construction
  line L207 (-564.55, 188.1567) -> (-585.375, 188.1567)
  arc A83 (-585.375, 190.1567) -> (-578.75, 200) centre (-589.375, 200) ccw construction
  line L208 (-585.375, 188.1567) -> (-585.375, 190.1567) construction
  line L209 (-593.375, 188.1567) -> (-593.375, 190.1567) construction
  arc A84 (-585.5799, 205.1701) -> (-578.75, 212) centre (-585.5799, 212) ccw
  line L210 (-593.375, 188.1567) -> (-585.375, 188.1567)
  line L211 (-598.5715, 205.1701) -> (-585.5799, 205.1701)
  arc A85 (-791.5296, 223.1932) -> (-795.0796, 217.0444) centre (-787.9796, 217.0444) ccw
  line L212 (-785.1284, 215.3983) -> (-794.1284, 220.5944) construction
  circle A86 centre (-785.1284, 215.3983) radius 2
  line L213 (-771.0796, 235) -> (-791.5296, 223.1932)
  line L214 (-795.0796, 217.0444) -> (-795.0796, 188.1567) construction
  line L215 (-730.3073, 278.0131) -> (-736.0283, 274.7101) construction
  line L216 (-757.0796, 300) -> (-757.0796, 238) construction
  line L217 (-730.3073, 283.9831) -> (-730.3073, 278.0131) construction
  line L218 (-730.3073, 283.9831) -> (-598.5715, 205.1701)
  line L219 (-600, 200) -> (-757.0796, 293.9753) construction
  spline S7 degree 4 poles (-757.0796, 300) (-757.0796, 288.9946) (-747.0234, 272.6841) (-724.1789, 236.7977) (-670.8039, 208.0704) (-631.8865, 200.2943) (-600, 200) knots 0 0 0 0 0 0.264547 0.457223 1 1 1 1 1 construction
  line L220 (-593.375, 188.1567) -> (-795.0796, 188.1567)
  line L221 (-771.0796, 280.0913) -> (-771.0796, 235)
  line L222 (-757.0796, 300) -> (-743.128, 291.6532)
  line L223 (-743.2208, 285.684) -> (-743.128, 291.6532)
  line L224 (-740.6463, 284.1438) -> (-743.2208, 285.684)
  line L225 (-737.3368, 294.5451) -> (-743.2815, 284.6085) construction
  line L226 (-741.0754, 284.4005) -> (-735.6205, 293.5183) construction
  line L227 (-740.6463, 284.1438) -> (-735.4304, 287.048)
  line L228 (-735.4304, 287.048) -> (-730.3073, 283.9831)
  line L229 (-767.4345, 320.8251) -> (-757.0796, 314.6302)
  line L230 (-771.0796, 280.0913) -> (-771.0796, 306.4587)
  line L231 (-757.0796, 314.6302) -> (-757.0796, 299.9865)
  circle A87 centre (-764.0796, 303.4587) radius 2
  line L232 (-771.0796, 306.4587) -> (-774.7248, 308.6394)
  circle A88 centre (-771.0796, 314.7323) radius 2.5
  arc A89 (-767.4345, 320.8251) -> (-774.7248, 308.6394) centre (-771.0796, 314.7323) ccw
  line L233 (-795.0796, 188.1567) -> (-814.2796, 188.1567)
  line L234 (-814.2796, 188.1567) -> (-814.2796, 192.1567)
  line L235 (-814.2796, 192.1567) -> (-798.0796, 192.1567)
  arc A90 (-798.0796, 192.1567) -> (-795.0796, 195.1567) centre (-798.0796, 195.1567) ccw
  line L236 (-795.0796, 195.1567) -> (-795.0796, 217.0444)
  line L237 (-799.0796, 188.1567) -> (-810.2796, 188.1567) construction
  line L238 (-810.2796, 188.1567) -> (-810.2796, 192.1567) construction
  line L239 (-810.2796, 192.1567) -> (-799.0796, 192.1567) construction
  line L240 (-799.0796, 192.1567) -> (-799.0796, 188.1567) construction
  line L241 (-799.0796, 188.1567) -> (-810.2796, 192.1567) construction
  line L242 (-810.2796, 188.1567) -> (-799.0796, 192.1567) construction
  line L243 (-495.0796, 587.6927) -> (-264.55, 587.6927) construction
  line L244 (-379.8148, 587.6927) -> (-379.8148, 614.3146) construction
  line L245 (-795.0796, 438) -> (-564.55, 438) construction
  line L246 (-679.8148, 438) -> (-679.8148, 492.8294) construction
  arc A91 (-564.55, 195.1567) -> (-561.55, 192.1567) centre (-561.55, 195.1567) ccw
  line L247 (-545.35, 192.1567) -> (-561.55, 192.1567)
  line L248 (-545.35, 188.1567) -> (-545.35, 192.1567)
  line L249 (-560.55, 192.1567) -> (-560.55, 188.1567) construction
  line L250 (-560.55, 188.1567) -> (-549.35, 188.1567) construction
  line L251 (-564.55, 188.1567) -> (-545.35, 188.1567)
  line L252 (-549.35, 188.1567) -> (-549.35, 192.1567) construction
  line L253 (-549.35, 192.1567) -> (-560.55, 192.1567) construction
  line L254 (-560.55, 188.1567) -> (-549.35, 192.1567) construction
  line L255 (-549.35, 188.1567) -> (-560.55, 192.1567) construction
  line L256 (-564.55, 195.1567) -> (-564.55, 212)
  circle A92 centre (-147.0796, 398.1567) radius 2
  circle A93 centre (-147.0796, 198.1567) radius 2
  circle A94 centre (-147.0796, -1.8433) radius 2
  circle A95 centre (-447.0796, 398.1567) radius 2
  circle A96 centre (-447.0796, 198.1567) radius 2
  circle A97 centre (-447.0796, -1.8433) radius 2
  circle A98 centre (-747.0796, 398.1567) radius 2 construction
  circle A99 centre (-747.0796, 198.1567) radius 2
  circle A100 centre (-747.0796, -1.8433) radius 2 construction
  line L257 (-264.55, 388.1567) -> (-245.35, 388.1567)
  line L258 (-245.35, 388.1567) -> (-245.35, 392.1567)
  line L259 (-245.35, 392.1567) -> (-261.55, 392.1567)
  arc A101 (-264.55, 395.1567) -> (-261.55, 392.1567) centre (-261.55, 395.1567) ccw
  line L260 (-260.55, 388.1567) -> (-249.35, 388.1567) construction
  line L261 (-249.35, 388.1567) -> (-249.35, 392.1567) construction
  line L262 (-249.35, 392.1567) -> (-260.55, 392.1567) construction
  line L263 (-260.55, 392.1567) -> (-260.55, 388.1567) construction
  line L264 (-260.55, 388.1567) -> (-249.35, 392.1567) construction
  line L265 (-249.35, 388.1567) -> (-260.55, 392.1567) construction
  line L266 (-264.55, 412) -> (-264.55, 395.1567)
  arc A102 (-157.0796, 106.4587) -> (-171.0796, 106.4587) centre (-164.0796, 106.4587) ccw
  line L267 (-157.0796, 106.4587) -> (-157.0796, 100)
  arc A103 (-157.0796, 306.4587) -> (-171.0796, 306.4587) centre (-164.0796, 306.4587) ccw
  line L268 (-157.0796, 306.4587) -> (-157.0796, 300)
  arc A104 (-157.0796, 506.4587) -> (-171.0796, 506.4587) centre (-164.0796, 506.4587) ccw
  line L269 (-157.0796, 506.4587) -> (-157.0796, 500)
  arc A105 (-457.0796, 106.4587) -> (-471.0796, 106.4587) centre (-464.0796, 106.4587) ccw
  line L270 (-457.0796, 106.4587) -> (-457.0796, 100)
  arc A106 (-457.0796, 306.4587) -> (-471.0796, 306.4587) centre (-464.0796, 306.4587) ccw
  line L271 (-457.0796, 306.4587) -> (-457.0796, 300)
  arc A107 (-457.0796, 506.4587) -> (-471.0796, 506.4587) centre (-464.0796, 506.4587) ccw construction
  line L272 (-457.0796, 506.4587) -> (-457.0796, 500) construction
  point P0 (158.3765, 0)
  point P1 (-148.021, 75)
  point P2 (-128.5398, 50)
  point P3 (-95.6611, 25)
  point P4 (-51.1799, 6.6987)
  point P5 (-155.8997, 93.3013)
  point P6 (-148.021, 275)
  point P7 (-128.5398, 250)
  point P8 (-95.6611, 225)
  point P9 (-51.1799, 206.6987)
  point P10 (-157.0796, 303.4587)
  point P11 (-157.0796, 200)
  point P12 (-171.0796, 303.4587)
  point P13 (-6, 188.1567)
  point P14 (-142.7917, 285.4273)
  point P15 (-148.021, 475)
  point P16 (-128.5398, 450)
  point P17 (-95.6611, 425)
  point P18 (-51.1799, 406.6987)
  point P19 (-157.0796, 503.4587)
  point P20 (-157.0796, 400)
  point P21 (-171.0796, 503.4587)
  point P22 (-6, 388.1567)
  point P23 (-142.7917, 485.4273)
  point P24 (-448.021, 75)
  point P25 (-428.5398, 50)
  point P26 (-395.6611, 25)
  point P27 (-351.1799, 6.6987)
  point P28 (-457.0796, 103.4587)
  point P29 (-457.0796, 0)
  point P30 (-471.0796, 103.4587)
  point P31 (-306, -11.8433)
  point P32 (-442.7917, 85.4273)
  point P33 (-448.021, 275)
  point P34 (-428.5398, 250)
  point P35 (-395.6611, 225)
  point P36 (-351.1799, 206.6987)
  point P37 (-457.0796, 303.4587)
  point P38 (-457.0796, 200)
  point P39 (-471.0796, 303.4587)
  point P40 (-306, 188.1567)
  point P41 (-442.7917, 285.4273)
  point P42 (-448.021, 475)
  point P43 (-428.5398, 450)
  point P44 (-395.6611, 425)
  point P45 (-351.1799, 406.6987)
  point P46 (-457.0796, 503.4587)
  point P47 (-457.0796, 400)
  point P48 (-471.0796, 503.4587)
  point P49 (-306, 388.1567)
  point P50 (-442.7917, 485.4273)
  point P51 (-421.2258, 50.7726)
  point P52 (-392.6255, 29.6644)
  point P53 (-346.6709, 11.6004)
  point P54 (-436.0267, 68.102)
  point P55 (-457.0796, 503.4587)
  point P56 (-504.6796, 390.1567)
  point P57 (-606, 188.1567)
  point P58 (-757.0796, 200)
  point P59 (-748.021, 275)
  point P60 (-728.5398, 250)
  point P61 (-757.0796, 303.4587)
  point P62 (-695.6611, 225)
  point P63 (-651.1799, 206.6987)
  point P64 (-742.7917, 285.4273)
  point P65 (-771.0796, 303.4587)
  point P66 (-804.6796, 190.1567)
  point P67 (-564.55, 188.1567)
  point P68 (-554.95, 190.1567)
  point P69 (-254.95, 390.1567)
  dimension "d43" = 25.75
  dimension "diameter" = 100
  dimension "d8" = 26.1799
  dimension "d14" = 30
  dimension "d15" = 30
  dimension "d16" = 30
  dimension "d32" = 10.625
  dimension "d47" = 8
  dimension "d49" = 2
  dimension "d53" = 21.25
  dimension "d62" = 20.825
  dimension "d123" = 120
  dimension "d126" = 59.109
  dimension "d137" = 2
  dimension "d138" = 90
  dimension "d139" = 90
  dimension "d141" = 7.1
  dimension "d142" = 14
  dimension "d143" = 7.1
  dimension "d144" = 12
  dimension "d145" = 5
  dimension "d146" = 35
  dimension "d147" = 24
  dimension "hole" = 4
  dimension "d155" = 4
  dimension "d156" = 9
  dimension "d157" = 4
  dimension "d158" = 6
  dimension "d159" = 4
  dimension "d160" = 4
  dimension "d241" = 120.891
  dimension "d244" = 120
  dimension "d245" = 30
  dimension "d246" = 3
  dimension "d249" = 200
  dimension "d252" = 300
  dimension "d255" = 120
  dimension "d256" = 5.1701
  dimension "d259" = 0.5
  dimension "d260" = 0.5
  dimension "d261" = 120
  dimension "d262" = 120
  dimension "d264" = 5.1701
  dimension "d265" = 38
  dimension "d268" = 300
  dimension "d275" = 200
  dimension "d288" = 5.1701
  dimension "d289" = 5.1701
  dimension "d290" = 5.1701
  dimension "d291" = 5.1701
  dimension "d292" = 11.2
  dimension "d293" = 4
  dimension "d294" = 4
  dimension "d296" = 3
  dimension "d299" = 300
  dimension "d324" = 11.2
  dimension "d325" = 4
  dimension "d326" = 4
  dimension "d328" = 3
  dimension "d330" = 4
  dimension "d331" = 10
  dimension "d332" = 10
  dimension "d335" = 200
  dimension "d338" = 300
  dimension "d341" = 7.1
  dimension "d342" = 4.6
sketch "Sketch5" plane through (0, 0, 0) normal (0, 0, 1) x (1, 0, 0)
  circle A0 centre (-171.0796, 114.7323) radius 2
  arc A1 (-168.5126, 119.023) -> (-173.6466, 110.4415) centre (-171.0796, 114.7323) ccw construction
  line L0 (-173.6466, 110.4415) -> (-168.5126, 119.023) construction
  line L1 (-137.3368, 94.5451) -> (-171.0796, 114.7323) construction
  line L2 (-137.3368, 94.5451) -> (-143.2815, 84.6085) construction
  line L3 (-141.0754, 84.4005) -> (-135.6205, 93.5183) construction
  line L4 (-142.7917, 85.4273) -> (-141.0754, 84.4005) construction
  line L5 (-173.6466, 110.4415) -> (-138.1875, 89.2276) construction
  line L6 (-138.1875, 89.2276) -> (-133.0535, 97.8091)
  line L7 (-133.0535, 97.8091) -> (-168.5126, 119.023) construction
  line L8 (-159.6382, 113.7138) -> (-159.6382, 107.8873)
  line L9 (-159.6382, 107.8873) -> (-145.3456, 99.3365)
  line L10 (-133.0535, 97.8091) -> (-140.2116, 102.0915)
  line L11 (-152.4919, 103.6119) -> (-153.6918, 101.6062)
  line L12 (-140.2116, 102.0915) -> (-145.3456, 99.3365)
  line L13 (-159.6382, 113.7138) -> (-168.5126, 119.023)
  line L14 (-135.6205, 93.5183) -> (-169.3633, 113.7055) construction
  line L15 (-168.5126, 119.023) -> (-189.9664, 131.858)
  arc A2 (-189.9664, 131.858) -> (-195.1004, 123.2766) centre (-192.5334, 127.5673) ccw
  line L16 (-195.1004, 123.2766) -> (-173.6466, 110.4415)
  line L17 (-142.7917, 85.4273) -> (-141.0754, 84.4005)
  line L18 (-141.0754, 84.4005) -> (-138.1875, 89.2276)
  line L19 (-142.7917, 85.4273) -> (-142.6907, 91.9217)
  line L20 (-142.6907, 91.9217) -> (-173.6466, 110.4415)
  arc A3 (-141.0754, 84.4005) -> (-138.014, 141.6941) centre (-171.0796, 114.7323) ccw construction
  point P0 (0, 0)
  dimension "d346" = 4
  dimension "d347" = 3
  dimension "d356" = 25
  dimension "d357" = 120
extrude "Extrusion3" add sketch "Sketch3" along normal blind 3 contours L89 A104 L269 L92 A72 L171 A35 L102 L101 L98 A40 L99 L100 | L93 L95 L96 A39 L94 A38
properties part number "1linepath"
